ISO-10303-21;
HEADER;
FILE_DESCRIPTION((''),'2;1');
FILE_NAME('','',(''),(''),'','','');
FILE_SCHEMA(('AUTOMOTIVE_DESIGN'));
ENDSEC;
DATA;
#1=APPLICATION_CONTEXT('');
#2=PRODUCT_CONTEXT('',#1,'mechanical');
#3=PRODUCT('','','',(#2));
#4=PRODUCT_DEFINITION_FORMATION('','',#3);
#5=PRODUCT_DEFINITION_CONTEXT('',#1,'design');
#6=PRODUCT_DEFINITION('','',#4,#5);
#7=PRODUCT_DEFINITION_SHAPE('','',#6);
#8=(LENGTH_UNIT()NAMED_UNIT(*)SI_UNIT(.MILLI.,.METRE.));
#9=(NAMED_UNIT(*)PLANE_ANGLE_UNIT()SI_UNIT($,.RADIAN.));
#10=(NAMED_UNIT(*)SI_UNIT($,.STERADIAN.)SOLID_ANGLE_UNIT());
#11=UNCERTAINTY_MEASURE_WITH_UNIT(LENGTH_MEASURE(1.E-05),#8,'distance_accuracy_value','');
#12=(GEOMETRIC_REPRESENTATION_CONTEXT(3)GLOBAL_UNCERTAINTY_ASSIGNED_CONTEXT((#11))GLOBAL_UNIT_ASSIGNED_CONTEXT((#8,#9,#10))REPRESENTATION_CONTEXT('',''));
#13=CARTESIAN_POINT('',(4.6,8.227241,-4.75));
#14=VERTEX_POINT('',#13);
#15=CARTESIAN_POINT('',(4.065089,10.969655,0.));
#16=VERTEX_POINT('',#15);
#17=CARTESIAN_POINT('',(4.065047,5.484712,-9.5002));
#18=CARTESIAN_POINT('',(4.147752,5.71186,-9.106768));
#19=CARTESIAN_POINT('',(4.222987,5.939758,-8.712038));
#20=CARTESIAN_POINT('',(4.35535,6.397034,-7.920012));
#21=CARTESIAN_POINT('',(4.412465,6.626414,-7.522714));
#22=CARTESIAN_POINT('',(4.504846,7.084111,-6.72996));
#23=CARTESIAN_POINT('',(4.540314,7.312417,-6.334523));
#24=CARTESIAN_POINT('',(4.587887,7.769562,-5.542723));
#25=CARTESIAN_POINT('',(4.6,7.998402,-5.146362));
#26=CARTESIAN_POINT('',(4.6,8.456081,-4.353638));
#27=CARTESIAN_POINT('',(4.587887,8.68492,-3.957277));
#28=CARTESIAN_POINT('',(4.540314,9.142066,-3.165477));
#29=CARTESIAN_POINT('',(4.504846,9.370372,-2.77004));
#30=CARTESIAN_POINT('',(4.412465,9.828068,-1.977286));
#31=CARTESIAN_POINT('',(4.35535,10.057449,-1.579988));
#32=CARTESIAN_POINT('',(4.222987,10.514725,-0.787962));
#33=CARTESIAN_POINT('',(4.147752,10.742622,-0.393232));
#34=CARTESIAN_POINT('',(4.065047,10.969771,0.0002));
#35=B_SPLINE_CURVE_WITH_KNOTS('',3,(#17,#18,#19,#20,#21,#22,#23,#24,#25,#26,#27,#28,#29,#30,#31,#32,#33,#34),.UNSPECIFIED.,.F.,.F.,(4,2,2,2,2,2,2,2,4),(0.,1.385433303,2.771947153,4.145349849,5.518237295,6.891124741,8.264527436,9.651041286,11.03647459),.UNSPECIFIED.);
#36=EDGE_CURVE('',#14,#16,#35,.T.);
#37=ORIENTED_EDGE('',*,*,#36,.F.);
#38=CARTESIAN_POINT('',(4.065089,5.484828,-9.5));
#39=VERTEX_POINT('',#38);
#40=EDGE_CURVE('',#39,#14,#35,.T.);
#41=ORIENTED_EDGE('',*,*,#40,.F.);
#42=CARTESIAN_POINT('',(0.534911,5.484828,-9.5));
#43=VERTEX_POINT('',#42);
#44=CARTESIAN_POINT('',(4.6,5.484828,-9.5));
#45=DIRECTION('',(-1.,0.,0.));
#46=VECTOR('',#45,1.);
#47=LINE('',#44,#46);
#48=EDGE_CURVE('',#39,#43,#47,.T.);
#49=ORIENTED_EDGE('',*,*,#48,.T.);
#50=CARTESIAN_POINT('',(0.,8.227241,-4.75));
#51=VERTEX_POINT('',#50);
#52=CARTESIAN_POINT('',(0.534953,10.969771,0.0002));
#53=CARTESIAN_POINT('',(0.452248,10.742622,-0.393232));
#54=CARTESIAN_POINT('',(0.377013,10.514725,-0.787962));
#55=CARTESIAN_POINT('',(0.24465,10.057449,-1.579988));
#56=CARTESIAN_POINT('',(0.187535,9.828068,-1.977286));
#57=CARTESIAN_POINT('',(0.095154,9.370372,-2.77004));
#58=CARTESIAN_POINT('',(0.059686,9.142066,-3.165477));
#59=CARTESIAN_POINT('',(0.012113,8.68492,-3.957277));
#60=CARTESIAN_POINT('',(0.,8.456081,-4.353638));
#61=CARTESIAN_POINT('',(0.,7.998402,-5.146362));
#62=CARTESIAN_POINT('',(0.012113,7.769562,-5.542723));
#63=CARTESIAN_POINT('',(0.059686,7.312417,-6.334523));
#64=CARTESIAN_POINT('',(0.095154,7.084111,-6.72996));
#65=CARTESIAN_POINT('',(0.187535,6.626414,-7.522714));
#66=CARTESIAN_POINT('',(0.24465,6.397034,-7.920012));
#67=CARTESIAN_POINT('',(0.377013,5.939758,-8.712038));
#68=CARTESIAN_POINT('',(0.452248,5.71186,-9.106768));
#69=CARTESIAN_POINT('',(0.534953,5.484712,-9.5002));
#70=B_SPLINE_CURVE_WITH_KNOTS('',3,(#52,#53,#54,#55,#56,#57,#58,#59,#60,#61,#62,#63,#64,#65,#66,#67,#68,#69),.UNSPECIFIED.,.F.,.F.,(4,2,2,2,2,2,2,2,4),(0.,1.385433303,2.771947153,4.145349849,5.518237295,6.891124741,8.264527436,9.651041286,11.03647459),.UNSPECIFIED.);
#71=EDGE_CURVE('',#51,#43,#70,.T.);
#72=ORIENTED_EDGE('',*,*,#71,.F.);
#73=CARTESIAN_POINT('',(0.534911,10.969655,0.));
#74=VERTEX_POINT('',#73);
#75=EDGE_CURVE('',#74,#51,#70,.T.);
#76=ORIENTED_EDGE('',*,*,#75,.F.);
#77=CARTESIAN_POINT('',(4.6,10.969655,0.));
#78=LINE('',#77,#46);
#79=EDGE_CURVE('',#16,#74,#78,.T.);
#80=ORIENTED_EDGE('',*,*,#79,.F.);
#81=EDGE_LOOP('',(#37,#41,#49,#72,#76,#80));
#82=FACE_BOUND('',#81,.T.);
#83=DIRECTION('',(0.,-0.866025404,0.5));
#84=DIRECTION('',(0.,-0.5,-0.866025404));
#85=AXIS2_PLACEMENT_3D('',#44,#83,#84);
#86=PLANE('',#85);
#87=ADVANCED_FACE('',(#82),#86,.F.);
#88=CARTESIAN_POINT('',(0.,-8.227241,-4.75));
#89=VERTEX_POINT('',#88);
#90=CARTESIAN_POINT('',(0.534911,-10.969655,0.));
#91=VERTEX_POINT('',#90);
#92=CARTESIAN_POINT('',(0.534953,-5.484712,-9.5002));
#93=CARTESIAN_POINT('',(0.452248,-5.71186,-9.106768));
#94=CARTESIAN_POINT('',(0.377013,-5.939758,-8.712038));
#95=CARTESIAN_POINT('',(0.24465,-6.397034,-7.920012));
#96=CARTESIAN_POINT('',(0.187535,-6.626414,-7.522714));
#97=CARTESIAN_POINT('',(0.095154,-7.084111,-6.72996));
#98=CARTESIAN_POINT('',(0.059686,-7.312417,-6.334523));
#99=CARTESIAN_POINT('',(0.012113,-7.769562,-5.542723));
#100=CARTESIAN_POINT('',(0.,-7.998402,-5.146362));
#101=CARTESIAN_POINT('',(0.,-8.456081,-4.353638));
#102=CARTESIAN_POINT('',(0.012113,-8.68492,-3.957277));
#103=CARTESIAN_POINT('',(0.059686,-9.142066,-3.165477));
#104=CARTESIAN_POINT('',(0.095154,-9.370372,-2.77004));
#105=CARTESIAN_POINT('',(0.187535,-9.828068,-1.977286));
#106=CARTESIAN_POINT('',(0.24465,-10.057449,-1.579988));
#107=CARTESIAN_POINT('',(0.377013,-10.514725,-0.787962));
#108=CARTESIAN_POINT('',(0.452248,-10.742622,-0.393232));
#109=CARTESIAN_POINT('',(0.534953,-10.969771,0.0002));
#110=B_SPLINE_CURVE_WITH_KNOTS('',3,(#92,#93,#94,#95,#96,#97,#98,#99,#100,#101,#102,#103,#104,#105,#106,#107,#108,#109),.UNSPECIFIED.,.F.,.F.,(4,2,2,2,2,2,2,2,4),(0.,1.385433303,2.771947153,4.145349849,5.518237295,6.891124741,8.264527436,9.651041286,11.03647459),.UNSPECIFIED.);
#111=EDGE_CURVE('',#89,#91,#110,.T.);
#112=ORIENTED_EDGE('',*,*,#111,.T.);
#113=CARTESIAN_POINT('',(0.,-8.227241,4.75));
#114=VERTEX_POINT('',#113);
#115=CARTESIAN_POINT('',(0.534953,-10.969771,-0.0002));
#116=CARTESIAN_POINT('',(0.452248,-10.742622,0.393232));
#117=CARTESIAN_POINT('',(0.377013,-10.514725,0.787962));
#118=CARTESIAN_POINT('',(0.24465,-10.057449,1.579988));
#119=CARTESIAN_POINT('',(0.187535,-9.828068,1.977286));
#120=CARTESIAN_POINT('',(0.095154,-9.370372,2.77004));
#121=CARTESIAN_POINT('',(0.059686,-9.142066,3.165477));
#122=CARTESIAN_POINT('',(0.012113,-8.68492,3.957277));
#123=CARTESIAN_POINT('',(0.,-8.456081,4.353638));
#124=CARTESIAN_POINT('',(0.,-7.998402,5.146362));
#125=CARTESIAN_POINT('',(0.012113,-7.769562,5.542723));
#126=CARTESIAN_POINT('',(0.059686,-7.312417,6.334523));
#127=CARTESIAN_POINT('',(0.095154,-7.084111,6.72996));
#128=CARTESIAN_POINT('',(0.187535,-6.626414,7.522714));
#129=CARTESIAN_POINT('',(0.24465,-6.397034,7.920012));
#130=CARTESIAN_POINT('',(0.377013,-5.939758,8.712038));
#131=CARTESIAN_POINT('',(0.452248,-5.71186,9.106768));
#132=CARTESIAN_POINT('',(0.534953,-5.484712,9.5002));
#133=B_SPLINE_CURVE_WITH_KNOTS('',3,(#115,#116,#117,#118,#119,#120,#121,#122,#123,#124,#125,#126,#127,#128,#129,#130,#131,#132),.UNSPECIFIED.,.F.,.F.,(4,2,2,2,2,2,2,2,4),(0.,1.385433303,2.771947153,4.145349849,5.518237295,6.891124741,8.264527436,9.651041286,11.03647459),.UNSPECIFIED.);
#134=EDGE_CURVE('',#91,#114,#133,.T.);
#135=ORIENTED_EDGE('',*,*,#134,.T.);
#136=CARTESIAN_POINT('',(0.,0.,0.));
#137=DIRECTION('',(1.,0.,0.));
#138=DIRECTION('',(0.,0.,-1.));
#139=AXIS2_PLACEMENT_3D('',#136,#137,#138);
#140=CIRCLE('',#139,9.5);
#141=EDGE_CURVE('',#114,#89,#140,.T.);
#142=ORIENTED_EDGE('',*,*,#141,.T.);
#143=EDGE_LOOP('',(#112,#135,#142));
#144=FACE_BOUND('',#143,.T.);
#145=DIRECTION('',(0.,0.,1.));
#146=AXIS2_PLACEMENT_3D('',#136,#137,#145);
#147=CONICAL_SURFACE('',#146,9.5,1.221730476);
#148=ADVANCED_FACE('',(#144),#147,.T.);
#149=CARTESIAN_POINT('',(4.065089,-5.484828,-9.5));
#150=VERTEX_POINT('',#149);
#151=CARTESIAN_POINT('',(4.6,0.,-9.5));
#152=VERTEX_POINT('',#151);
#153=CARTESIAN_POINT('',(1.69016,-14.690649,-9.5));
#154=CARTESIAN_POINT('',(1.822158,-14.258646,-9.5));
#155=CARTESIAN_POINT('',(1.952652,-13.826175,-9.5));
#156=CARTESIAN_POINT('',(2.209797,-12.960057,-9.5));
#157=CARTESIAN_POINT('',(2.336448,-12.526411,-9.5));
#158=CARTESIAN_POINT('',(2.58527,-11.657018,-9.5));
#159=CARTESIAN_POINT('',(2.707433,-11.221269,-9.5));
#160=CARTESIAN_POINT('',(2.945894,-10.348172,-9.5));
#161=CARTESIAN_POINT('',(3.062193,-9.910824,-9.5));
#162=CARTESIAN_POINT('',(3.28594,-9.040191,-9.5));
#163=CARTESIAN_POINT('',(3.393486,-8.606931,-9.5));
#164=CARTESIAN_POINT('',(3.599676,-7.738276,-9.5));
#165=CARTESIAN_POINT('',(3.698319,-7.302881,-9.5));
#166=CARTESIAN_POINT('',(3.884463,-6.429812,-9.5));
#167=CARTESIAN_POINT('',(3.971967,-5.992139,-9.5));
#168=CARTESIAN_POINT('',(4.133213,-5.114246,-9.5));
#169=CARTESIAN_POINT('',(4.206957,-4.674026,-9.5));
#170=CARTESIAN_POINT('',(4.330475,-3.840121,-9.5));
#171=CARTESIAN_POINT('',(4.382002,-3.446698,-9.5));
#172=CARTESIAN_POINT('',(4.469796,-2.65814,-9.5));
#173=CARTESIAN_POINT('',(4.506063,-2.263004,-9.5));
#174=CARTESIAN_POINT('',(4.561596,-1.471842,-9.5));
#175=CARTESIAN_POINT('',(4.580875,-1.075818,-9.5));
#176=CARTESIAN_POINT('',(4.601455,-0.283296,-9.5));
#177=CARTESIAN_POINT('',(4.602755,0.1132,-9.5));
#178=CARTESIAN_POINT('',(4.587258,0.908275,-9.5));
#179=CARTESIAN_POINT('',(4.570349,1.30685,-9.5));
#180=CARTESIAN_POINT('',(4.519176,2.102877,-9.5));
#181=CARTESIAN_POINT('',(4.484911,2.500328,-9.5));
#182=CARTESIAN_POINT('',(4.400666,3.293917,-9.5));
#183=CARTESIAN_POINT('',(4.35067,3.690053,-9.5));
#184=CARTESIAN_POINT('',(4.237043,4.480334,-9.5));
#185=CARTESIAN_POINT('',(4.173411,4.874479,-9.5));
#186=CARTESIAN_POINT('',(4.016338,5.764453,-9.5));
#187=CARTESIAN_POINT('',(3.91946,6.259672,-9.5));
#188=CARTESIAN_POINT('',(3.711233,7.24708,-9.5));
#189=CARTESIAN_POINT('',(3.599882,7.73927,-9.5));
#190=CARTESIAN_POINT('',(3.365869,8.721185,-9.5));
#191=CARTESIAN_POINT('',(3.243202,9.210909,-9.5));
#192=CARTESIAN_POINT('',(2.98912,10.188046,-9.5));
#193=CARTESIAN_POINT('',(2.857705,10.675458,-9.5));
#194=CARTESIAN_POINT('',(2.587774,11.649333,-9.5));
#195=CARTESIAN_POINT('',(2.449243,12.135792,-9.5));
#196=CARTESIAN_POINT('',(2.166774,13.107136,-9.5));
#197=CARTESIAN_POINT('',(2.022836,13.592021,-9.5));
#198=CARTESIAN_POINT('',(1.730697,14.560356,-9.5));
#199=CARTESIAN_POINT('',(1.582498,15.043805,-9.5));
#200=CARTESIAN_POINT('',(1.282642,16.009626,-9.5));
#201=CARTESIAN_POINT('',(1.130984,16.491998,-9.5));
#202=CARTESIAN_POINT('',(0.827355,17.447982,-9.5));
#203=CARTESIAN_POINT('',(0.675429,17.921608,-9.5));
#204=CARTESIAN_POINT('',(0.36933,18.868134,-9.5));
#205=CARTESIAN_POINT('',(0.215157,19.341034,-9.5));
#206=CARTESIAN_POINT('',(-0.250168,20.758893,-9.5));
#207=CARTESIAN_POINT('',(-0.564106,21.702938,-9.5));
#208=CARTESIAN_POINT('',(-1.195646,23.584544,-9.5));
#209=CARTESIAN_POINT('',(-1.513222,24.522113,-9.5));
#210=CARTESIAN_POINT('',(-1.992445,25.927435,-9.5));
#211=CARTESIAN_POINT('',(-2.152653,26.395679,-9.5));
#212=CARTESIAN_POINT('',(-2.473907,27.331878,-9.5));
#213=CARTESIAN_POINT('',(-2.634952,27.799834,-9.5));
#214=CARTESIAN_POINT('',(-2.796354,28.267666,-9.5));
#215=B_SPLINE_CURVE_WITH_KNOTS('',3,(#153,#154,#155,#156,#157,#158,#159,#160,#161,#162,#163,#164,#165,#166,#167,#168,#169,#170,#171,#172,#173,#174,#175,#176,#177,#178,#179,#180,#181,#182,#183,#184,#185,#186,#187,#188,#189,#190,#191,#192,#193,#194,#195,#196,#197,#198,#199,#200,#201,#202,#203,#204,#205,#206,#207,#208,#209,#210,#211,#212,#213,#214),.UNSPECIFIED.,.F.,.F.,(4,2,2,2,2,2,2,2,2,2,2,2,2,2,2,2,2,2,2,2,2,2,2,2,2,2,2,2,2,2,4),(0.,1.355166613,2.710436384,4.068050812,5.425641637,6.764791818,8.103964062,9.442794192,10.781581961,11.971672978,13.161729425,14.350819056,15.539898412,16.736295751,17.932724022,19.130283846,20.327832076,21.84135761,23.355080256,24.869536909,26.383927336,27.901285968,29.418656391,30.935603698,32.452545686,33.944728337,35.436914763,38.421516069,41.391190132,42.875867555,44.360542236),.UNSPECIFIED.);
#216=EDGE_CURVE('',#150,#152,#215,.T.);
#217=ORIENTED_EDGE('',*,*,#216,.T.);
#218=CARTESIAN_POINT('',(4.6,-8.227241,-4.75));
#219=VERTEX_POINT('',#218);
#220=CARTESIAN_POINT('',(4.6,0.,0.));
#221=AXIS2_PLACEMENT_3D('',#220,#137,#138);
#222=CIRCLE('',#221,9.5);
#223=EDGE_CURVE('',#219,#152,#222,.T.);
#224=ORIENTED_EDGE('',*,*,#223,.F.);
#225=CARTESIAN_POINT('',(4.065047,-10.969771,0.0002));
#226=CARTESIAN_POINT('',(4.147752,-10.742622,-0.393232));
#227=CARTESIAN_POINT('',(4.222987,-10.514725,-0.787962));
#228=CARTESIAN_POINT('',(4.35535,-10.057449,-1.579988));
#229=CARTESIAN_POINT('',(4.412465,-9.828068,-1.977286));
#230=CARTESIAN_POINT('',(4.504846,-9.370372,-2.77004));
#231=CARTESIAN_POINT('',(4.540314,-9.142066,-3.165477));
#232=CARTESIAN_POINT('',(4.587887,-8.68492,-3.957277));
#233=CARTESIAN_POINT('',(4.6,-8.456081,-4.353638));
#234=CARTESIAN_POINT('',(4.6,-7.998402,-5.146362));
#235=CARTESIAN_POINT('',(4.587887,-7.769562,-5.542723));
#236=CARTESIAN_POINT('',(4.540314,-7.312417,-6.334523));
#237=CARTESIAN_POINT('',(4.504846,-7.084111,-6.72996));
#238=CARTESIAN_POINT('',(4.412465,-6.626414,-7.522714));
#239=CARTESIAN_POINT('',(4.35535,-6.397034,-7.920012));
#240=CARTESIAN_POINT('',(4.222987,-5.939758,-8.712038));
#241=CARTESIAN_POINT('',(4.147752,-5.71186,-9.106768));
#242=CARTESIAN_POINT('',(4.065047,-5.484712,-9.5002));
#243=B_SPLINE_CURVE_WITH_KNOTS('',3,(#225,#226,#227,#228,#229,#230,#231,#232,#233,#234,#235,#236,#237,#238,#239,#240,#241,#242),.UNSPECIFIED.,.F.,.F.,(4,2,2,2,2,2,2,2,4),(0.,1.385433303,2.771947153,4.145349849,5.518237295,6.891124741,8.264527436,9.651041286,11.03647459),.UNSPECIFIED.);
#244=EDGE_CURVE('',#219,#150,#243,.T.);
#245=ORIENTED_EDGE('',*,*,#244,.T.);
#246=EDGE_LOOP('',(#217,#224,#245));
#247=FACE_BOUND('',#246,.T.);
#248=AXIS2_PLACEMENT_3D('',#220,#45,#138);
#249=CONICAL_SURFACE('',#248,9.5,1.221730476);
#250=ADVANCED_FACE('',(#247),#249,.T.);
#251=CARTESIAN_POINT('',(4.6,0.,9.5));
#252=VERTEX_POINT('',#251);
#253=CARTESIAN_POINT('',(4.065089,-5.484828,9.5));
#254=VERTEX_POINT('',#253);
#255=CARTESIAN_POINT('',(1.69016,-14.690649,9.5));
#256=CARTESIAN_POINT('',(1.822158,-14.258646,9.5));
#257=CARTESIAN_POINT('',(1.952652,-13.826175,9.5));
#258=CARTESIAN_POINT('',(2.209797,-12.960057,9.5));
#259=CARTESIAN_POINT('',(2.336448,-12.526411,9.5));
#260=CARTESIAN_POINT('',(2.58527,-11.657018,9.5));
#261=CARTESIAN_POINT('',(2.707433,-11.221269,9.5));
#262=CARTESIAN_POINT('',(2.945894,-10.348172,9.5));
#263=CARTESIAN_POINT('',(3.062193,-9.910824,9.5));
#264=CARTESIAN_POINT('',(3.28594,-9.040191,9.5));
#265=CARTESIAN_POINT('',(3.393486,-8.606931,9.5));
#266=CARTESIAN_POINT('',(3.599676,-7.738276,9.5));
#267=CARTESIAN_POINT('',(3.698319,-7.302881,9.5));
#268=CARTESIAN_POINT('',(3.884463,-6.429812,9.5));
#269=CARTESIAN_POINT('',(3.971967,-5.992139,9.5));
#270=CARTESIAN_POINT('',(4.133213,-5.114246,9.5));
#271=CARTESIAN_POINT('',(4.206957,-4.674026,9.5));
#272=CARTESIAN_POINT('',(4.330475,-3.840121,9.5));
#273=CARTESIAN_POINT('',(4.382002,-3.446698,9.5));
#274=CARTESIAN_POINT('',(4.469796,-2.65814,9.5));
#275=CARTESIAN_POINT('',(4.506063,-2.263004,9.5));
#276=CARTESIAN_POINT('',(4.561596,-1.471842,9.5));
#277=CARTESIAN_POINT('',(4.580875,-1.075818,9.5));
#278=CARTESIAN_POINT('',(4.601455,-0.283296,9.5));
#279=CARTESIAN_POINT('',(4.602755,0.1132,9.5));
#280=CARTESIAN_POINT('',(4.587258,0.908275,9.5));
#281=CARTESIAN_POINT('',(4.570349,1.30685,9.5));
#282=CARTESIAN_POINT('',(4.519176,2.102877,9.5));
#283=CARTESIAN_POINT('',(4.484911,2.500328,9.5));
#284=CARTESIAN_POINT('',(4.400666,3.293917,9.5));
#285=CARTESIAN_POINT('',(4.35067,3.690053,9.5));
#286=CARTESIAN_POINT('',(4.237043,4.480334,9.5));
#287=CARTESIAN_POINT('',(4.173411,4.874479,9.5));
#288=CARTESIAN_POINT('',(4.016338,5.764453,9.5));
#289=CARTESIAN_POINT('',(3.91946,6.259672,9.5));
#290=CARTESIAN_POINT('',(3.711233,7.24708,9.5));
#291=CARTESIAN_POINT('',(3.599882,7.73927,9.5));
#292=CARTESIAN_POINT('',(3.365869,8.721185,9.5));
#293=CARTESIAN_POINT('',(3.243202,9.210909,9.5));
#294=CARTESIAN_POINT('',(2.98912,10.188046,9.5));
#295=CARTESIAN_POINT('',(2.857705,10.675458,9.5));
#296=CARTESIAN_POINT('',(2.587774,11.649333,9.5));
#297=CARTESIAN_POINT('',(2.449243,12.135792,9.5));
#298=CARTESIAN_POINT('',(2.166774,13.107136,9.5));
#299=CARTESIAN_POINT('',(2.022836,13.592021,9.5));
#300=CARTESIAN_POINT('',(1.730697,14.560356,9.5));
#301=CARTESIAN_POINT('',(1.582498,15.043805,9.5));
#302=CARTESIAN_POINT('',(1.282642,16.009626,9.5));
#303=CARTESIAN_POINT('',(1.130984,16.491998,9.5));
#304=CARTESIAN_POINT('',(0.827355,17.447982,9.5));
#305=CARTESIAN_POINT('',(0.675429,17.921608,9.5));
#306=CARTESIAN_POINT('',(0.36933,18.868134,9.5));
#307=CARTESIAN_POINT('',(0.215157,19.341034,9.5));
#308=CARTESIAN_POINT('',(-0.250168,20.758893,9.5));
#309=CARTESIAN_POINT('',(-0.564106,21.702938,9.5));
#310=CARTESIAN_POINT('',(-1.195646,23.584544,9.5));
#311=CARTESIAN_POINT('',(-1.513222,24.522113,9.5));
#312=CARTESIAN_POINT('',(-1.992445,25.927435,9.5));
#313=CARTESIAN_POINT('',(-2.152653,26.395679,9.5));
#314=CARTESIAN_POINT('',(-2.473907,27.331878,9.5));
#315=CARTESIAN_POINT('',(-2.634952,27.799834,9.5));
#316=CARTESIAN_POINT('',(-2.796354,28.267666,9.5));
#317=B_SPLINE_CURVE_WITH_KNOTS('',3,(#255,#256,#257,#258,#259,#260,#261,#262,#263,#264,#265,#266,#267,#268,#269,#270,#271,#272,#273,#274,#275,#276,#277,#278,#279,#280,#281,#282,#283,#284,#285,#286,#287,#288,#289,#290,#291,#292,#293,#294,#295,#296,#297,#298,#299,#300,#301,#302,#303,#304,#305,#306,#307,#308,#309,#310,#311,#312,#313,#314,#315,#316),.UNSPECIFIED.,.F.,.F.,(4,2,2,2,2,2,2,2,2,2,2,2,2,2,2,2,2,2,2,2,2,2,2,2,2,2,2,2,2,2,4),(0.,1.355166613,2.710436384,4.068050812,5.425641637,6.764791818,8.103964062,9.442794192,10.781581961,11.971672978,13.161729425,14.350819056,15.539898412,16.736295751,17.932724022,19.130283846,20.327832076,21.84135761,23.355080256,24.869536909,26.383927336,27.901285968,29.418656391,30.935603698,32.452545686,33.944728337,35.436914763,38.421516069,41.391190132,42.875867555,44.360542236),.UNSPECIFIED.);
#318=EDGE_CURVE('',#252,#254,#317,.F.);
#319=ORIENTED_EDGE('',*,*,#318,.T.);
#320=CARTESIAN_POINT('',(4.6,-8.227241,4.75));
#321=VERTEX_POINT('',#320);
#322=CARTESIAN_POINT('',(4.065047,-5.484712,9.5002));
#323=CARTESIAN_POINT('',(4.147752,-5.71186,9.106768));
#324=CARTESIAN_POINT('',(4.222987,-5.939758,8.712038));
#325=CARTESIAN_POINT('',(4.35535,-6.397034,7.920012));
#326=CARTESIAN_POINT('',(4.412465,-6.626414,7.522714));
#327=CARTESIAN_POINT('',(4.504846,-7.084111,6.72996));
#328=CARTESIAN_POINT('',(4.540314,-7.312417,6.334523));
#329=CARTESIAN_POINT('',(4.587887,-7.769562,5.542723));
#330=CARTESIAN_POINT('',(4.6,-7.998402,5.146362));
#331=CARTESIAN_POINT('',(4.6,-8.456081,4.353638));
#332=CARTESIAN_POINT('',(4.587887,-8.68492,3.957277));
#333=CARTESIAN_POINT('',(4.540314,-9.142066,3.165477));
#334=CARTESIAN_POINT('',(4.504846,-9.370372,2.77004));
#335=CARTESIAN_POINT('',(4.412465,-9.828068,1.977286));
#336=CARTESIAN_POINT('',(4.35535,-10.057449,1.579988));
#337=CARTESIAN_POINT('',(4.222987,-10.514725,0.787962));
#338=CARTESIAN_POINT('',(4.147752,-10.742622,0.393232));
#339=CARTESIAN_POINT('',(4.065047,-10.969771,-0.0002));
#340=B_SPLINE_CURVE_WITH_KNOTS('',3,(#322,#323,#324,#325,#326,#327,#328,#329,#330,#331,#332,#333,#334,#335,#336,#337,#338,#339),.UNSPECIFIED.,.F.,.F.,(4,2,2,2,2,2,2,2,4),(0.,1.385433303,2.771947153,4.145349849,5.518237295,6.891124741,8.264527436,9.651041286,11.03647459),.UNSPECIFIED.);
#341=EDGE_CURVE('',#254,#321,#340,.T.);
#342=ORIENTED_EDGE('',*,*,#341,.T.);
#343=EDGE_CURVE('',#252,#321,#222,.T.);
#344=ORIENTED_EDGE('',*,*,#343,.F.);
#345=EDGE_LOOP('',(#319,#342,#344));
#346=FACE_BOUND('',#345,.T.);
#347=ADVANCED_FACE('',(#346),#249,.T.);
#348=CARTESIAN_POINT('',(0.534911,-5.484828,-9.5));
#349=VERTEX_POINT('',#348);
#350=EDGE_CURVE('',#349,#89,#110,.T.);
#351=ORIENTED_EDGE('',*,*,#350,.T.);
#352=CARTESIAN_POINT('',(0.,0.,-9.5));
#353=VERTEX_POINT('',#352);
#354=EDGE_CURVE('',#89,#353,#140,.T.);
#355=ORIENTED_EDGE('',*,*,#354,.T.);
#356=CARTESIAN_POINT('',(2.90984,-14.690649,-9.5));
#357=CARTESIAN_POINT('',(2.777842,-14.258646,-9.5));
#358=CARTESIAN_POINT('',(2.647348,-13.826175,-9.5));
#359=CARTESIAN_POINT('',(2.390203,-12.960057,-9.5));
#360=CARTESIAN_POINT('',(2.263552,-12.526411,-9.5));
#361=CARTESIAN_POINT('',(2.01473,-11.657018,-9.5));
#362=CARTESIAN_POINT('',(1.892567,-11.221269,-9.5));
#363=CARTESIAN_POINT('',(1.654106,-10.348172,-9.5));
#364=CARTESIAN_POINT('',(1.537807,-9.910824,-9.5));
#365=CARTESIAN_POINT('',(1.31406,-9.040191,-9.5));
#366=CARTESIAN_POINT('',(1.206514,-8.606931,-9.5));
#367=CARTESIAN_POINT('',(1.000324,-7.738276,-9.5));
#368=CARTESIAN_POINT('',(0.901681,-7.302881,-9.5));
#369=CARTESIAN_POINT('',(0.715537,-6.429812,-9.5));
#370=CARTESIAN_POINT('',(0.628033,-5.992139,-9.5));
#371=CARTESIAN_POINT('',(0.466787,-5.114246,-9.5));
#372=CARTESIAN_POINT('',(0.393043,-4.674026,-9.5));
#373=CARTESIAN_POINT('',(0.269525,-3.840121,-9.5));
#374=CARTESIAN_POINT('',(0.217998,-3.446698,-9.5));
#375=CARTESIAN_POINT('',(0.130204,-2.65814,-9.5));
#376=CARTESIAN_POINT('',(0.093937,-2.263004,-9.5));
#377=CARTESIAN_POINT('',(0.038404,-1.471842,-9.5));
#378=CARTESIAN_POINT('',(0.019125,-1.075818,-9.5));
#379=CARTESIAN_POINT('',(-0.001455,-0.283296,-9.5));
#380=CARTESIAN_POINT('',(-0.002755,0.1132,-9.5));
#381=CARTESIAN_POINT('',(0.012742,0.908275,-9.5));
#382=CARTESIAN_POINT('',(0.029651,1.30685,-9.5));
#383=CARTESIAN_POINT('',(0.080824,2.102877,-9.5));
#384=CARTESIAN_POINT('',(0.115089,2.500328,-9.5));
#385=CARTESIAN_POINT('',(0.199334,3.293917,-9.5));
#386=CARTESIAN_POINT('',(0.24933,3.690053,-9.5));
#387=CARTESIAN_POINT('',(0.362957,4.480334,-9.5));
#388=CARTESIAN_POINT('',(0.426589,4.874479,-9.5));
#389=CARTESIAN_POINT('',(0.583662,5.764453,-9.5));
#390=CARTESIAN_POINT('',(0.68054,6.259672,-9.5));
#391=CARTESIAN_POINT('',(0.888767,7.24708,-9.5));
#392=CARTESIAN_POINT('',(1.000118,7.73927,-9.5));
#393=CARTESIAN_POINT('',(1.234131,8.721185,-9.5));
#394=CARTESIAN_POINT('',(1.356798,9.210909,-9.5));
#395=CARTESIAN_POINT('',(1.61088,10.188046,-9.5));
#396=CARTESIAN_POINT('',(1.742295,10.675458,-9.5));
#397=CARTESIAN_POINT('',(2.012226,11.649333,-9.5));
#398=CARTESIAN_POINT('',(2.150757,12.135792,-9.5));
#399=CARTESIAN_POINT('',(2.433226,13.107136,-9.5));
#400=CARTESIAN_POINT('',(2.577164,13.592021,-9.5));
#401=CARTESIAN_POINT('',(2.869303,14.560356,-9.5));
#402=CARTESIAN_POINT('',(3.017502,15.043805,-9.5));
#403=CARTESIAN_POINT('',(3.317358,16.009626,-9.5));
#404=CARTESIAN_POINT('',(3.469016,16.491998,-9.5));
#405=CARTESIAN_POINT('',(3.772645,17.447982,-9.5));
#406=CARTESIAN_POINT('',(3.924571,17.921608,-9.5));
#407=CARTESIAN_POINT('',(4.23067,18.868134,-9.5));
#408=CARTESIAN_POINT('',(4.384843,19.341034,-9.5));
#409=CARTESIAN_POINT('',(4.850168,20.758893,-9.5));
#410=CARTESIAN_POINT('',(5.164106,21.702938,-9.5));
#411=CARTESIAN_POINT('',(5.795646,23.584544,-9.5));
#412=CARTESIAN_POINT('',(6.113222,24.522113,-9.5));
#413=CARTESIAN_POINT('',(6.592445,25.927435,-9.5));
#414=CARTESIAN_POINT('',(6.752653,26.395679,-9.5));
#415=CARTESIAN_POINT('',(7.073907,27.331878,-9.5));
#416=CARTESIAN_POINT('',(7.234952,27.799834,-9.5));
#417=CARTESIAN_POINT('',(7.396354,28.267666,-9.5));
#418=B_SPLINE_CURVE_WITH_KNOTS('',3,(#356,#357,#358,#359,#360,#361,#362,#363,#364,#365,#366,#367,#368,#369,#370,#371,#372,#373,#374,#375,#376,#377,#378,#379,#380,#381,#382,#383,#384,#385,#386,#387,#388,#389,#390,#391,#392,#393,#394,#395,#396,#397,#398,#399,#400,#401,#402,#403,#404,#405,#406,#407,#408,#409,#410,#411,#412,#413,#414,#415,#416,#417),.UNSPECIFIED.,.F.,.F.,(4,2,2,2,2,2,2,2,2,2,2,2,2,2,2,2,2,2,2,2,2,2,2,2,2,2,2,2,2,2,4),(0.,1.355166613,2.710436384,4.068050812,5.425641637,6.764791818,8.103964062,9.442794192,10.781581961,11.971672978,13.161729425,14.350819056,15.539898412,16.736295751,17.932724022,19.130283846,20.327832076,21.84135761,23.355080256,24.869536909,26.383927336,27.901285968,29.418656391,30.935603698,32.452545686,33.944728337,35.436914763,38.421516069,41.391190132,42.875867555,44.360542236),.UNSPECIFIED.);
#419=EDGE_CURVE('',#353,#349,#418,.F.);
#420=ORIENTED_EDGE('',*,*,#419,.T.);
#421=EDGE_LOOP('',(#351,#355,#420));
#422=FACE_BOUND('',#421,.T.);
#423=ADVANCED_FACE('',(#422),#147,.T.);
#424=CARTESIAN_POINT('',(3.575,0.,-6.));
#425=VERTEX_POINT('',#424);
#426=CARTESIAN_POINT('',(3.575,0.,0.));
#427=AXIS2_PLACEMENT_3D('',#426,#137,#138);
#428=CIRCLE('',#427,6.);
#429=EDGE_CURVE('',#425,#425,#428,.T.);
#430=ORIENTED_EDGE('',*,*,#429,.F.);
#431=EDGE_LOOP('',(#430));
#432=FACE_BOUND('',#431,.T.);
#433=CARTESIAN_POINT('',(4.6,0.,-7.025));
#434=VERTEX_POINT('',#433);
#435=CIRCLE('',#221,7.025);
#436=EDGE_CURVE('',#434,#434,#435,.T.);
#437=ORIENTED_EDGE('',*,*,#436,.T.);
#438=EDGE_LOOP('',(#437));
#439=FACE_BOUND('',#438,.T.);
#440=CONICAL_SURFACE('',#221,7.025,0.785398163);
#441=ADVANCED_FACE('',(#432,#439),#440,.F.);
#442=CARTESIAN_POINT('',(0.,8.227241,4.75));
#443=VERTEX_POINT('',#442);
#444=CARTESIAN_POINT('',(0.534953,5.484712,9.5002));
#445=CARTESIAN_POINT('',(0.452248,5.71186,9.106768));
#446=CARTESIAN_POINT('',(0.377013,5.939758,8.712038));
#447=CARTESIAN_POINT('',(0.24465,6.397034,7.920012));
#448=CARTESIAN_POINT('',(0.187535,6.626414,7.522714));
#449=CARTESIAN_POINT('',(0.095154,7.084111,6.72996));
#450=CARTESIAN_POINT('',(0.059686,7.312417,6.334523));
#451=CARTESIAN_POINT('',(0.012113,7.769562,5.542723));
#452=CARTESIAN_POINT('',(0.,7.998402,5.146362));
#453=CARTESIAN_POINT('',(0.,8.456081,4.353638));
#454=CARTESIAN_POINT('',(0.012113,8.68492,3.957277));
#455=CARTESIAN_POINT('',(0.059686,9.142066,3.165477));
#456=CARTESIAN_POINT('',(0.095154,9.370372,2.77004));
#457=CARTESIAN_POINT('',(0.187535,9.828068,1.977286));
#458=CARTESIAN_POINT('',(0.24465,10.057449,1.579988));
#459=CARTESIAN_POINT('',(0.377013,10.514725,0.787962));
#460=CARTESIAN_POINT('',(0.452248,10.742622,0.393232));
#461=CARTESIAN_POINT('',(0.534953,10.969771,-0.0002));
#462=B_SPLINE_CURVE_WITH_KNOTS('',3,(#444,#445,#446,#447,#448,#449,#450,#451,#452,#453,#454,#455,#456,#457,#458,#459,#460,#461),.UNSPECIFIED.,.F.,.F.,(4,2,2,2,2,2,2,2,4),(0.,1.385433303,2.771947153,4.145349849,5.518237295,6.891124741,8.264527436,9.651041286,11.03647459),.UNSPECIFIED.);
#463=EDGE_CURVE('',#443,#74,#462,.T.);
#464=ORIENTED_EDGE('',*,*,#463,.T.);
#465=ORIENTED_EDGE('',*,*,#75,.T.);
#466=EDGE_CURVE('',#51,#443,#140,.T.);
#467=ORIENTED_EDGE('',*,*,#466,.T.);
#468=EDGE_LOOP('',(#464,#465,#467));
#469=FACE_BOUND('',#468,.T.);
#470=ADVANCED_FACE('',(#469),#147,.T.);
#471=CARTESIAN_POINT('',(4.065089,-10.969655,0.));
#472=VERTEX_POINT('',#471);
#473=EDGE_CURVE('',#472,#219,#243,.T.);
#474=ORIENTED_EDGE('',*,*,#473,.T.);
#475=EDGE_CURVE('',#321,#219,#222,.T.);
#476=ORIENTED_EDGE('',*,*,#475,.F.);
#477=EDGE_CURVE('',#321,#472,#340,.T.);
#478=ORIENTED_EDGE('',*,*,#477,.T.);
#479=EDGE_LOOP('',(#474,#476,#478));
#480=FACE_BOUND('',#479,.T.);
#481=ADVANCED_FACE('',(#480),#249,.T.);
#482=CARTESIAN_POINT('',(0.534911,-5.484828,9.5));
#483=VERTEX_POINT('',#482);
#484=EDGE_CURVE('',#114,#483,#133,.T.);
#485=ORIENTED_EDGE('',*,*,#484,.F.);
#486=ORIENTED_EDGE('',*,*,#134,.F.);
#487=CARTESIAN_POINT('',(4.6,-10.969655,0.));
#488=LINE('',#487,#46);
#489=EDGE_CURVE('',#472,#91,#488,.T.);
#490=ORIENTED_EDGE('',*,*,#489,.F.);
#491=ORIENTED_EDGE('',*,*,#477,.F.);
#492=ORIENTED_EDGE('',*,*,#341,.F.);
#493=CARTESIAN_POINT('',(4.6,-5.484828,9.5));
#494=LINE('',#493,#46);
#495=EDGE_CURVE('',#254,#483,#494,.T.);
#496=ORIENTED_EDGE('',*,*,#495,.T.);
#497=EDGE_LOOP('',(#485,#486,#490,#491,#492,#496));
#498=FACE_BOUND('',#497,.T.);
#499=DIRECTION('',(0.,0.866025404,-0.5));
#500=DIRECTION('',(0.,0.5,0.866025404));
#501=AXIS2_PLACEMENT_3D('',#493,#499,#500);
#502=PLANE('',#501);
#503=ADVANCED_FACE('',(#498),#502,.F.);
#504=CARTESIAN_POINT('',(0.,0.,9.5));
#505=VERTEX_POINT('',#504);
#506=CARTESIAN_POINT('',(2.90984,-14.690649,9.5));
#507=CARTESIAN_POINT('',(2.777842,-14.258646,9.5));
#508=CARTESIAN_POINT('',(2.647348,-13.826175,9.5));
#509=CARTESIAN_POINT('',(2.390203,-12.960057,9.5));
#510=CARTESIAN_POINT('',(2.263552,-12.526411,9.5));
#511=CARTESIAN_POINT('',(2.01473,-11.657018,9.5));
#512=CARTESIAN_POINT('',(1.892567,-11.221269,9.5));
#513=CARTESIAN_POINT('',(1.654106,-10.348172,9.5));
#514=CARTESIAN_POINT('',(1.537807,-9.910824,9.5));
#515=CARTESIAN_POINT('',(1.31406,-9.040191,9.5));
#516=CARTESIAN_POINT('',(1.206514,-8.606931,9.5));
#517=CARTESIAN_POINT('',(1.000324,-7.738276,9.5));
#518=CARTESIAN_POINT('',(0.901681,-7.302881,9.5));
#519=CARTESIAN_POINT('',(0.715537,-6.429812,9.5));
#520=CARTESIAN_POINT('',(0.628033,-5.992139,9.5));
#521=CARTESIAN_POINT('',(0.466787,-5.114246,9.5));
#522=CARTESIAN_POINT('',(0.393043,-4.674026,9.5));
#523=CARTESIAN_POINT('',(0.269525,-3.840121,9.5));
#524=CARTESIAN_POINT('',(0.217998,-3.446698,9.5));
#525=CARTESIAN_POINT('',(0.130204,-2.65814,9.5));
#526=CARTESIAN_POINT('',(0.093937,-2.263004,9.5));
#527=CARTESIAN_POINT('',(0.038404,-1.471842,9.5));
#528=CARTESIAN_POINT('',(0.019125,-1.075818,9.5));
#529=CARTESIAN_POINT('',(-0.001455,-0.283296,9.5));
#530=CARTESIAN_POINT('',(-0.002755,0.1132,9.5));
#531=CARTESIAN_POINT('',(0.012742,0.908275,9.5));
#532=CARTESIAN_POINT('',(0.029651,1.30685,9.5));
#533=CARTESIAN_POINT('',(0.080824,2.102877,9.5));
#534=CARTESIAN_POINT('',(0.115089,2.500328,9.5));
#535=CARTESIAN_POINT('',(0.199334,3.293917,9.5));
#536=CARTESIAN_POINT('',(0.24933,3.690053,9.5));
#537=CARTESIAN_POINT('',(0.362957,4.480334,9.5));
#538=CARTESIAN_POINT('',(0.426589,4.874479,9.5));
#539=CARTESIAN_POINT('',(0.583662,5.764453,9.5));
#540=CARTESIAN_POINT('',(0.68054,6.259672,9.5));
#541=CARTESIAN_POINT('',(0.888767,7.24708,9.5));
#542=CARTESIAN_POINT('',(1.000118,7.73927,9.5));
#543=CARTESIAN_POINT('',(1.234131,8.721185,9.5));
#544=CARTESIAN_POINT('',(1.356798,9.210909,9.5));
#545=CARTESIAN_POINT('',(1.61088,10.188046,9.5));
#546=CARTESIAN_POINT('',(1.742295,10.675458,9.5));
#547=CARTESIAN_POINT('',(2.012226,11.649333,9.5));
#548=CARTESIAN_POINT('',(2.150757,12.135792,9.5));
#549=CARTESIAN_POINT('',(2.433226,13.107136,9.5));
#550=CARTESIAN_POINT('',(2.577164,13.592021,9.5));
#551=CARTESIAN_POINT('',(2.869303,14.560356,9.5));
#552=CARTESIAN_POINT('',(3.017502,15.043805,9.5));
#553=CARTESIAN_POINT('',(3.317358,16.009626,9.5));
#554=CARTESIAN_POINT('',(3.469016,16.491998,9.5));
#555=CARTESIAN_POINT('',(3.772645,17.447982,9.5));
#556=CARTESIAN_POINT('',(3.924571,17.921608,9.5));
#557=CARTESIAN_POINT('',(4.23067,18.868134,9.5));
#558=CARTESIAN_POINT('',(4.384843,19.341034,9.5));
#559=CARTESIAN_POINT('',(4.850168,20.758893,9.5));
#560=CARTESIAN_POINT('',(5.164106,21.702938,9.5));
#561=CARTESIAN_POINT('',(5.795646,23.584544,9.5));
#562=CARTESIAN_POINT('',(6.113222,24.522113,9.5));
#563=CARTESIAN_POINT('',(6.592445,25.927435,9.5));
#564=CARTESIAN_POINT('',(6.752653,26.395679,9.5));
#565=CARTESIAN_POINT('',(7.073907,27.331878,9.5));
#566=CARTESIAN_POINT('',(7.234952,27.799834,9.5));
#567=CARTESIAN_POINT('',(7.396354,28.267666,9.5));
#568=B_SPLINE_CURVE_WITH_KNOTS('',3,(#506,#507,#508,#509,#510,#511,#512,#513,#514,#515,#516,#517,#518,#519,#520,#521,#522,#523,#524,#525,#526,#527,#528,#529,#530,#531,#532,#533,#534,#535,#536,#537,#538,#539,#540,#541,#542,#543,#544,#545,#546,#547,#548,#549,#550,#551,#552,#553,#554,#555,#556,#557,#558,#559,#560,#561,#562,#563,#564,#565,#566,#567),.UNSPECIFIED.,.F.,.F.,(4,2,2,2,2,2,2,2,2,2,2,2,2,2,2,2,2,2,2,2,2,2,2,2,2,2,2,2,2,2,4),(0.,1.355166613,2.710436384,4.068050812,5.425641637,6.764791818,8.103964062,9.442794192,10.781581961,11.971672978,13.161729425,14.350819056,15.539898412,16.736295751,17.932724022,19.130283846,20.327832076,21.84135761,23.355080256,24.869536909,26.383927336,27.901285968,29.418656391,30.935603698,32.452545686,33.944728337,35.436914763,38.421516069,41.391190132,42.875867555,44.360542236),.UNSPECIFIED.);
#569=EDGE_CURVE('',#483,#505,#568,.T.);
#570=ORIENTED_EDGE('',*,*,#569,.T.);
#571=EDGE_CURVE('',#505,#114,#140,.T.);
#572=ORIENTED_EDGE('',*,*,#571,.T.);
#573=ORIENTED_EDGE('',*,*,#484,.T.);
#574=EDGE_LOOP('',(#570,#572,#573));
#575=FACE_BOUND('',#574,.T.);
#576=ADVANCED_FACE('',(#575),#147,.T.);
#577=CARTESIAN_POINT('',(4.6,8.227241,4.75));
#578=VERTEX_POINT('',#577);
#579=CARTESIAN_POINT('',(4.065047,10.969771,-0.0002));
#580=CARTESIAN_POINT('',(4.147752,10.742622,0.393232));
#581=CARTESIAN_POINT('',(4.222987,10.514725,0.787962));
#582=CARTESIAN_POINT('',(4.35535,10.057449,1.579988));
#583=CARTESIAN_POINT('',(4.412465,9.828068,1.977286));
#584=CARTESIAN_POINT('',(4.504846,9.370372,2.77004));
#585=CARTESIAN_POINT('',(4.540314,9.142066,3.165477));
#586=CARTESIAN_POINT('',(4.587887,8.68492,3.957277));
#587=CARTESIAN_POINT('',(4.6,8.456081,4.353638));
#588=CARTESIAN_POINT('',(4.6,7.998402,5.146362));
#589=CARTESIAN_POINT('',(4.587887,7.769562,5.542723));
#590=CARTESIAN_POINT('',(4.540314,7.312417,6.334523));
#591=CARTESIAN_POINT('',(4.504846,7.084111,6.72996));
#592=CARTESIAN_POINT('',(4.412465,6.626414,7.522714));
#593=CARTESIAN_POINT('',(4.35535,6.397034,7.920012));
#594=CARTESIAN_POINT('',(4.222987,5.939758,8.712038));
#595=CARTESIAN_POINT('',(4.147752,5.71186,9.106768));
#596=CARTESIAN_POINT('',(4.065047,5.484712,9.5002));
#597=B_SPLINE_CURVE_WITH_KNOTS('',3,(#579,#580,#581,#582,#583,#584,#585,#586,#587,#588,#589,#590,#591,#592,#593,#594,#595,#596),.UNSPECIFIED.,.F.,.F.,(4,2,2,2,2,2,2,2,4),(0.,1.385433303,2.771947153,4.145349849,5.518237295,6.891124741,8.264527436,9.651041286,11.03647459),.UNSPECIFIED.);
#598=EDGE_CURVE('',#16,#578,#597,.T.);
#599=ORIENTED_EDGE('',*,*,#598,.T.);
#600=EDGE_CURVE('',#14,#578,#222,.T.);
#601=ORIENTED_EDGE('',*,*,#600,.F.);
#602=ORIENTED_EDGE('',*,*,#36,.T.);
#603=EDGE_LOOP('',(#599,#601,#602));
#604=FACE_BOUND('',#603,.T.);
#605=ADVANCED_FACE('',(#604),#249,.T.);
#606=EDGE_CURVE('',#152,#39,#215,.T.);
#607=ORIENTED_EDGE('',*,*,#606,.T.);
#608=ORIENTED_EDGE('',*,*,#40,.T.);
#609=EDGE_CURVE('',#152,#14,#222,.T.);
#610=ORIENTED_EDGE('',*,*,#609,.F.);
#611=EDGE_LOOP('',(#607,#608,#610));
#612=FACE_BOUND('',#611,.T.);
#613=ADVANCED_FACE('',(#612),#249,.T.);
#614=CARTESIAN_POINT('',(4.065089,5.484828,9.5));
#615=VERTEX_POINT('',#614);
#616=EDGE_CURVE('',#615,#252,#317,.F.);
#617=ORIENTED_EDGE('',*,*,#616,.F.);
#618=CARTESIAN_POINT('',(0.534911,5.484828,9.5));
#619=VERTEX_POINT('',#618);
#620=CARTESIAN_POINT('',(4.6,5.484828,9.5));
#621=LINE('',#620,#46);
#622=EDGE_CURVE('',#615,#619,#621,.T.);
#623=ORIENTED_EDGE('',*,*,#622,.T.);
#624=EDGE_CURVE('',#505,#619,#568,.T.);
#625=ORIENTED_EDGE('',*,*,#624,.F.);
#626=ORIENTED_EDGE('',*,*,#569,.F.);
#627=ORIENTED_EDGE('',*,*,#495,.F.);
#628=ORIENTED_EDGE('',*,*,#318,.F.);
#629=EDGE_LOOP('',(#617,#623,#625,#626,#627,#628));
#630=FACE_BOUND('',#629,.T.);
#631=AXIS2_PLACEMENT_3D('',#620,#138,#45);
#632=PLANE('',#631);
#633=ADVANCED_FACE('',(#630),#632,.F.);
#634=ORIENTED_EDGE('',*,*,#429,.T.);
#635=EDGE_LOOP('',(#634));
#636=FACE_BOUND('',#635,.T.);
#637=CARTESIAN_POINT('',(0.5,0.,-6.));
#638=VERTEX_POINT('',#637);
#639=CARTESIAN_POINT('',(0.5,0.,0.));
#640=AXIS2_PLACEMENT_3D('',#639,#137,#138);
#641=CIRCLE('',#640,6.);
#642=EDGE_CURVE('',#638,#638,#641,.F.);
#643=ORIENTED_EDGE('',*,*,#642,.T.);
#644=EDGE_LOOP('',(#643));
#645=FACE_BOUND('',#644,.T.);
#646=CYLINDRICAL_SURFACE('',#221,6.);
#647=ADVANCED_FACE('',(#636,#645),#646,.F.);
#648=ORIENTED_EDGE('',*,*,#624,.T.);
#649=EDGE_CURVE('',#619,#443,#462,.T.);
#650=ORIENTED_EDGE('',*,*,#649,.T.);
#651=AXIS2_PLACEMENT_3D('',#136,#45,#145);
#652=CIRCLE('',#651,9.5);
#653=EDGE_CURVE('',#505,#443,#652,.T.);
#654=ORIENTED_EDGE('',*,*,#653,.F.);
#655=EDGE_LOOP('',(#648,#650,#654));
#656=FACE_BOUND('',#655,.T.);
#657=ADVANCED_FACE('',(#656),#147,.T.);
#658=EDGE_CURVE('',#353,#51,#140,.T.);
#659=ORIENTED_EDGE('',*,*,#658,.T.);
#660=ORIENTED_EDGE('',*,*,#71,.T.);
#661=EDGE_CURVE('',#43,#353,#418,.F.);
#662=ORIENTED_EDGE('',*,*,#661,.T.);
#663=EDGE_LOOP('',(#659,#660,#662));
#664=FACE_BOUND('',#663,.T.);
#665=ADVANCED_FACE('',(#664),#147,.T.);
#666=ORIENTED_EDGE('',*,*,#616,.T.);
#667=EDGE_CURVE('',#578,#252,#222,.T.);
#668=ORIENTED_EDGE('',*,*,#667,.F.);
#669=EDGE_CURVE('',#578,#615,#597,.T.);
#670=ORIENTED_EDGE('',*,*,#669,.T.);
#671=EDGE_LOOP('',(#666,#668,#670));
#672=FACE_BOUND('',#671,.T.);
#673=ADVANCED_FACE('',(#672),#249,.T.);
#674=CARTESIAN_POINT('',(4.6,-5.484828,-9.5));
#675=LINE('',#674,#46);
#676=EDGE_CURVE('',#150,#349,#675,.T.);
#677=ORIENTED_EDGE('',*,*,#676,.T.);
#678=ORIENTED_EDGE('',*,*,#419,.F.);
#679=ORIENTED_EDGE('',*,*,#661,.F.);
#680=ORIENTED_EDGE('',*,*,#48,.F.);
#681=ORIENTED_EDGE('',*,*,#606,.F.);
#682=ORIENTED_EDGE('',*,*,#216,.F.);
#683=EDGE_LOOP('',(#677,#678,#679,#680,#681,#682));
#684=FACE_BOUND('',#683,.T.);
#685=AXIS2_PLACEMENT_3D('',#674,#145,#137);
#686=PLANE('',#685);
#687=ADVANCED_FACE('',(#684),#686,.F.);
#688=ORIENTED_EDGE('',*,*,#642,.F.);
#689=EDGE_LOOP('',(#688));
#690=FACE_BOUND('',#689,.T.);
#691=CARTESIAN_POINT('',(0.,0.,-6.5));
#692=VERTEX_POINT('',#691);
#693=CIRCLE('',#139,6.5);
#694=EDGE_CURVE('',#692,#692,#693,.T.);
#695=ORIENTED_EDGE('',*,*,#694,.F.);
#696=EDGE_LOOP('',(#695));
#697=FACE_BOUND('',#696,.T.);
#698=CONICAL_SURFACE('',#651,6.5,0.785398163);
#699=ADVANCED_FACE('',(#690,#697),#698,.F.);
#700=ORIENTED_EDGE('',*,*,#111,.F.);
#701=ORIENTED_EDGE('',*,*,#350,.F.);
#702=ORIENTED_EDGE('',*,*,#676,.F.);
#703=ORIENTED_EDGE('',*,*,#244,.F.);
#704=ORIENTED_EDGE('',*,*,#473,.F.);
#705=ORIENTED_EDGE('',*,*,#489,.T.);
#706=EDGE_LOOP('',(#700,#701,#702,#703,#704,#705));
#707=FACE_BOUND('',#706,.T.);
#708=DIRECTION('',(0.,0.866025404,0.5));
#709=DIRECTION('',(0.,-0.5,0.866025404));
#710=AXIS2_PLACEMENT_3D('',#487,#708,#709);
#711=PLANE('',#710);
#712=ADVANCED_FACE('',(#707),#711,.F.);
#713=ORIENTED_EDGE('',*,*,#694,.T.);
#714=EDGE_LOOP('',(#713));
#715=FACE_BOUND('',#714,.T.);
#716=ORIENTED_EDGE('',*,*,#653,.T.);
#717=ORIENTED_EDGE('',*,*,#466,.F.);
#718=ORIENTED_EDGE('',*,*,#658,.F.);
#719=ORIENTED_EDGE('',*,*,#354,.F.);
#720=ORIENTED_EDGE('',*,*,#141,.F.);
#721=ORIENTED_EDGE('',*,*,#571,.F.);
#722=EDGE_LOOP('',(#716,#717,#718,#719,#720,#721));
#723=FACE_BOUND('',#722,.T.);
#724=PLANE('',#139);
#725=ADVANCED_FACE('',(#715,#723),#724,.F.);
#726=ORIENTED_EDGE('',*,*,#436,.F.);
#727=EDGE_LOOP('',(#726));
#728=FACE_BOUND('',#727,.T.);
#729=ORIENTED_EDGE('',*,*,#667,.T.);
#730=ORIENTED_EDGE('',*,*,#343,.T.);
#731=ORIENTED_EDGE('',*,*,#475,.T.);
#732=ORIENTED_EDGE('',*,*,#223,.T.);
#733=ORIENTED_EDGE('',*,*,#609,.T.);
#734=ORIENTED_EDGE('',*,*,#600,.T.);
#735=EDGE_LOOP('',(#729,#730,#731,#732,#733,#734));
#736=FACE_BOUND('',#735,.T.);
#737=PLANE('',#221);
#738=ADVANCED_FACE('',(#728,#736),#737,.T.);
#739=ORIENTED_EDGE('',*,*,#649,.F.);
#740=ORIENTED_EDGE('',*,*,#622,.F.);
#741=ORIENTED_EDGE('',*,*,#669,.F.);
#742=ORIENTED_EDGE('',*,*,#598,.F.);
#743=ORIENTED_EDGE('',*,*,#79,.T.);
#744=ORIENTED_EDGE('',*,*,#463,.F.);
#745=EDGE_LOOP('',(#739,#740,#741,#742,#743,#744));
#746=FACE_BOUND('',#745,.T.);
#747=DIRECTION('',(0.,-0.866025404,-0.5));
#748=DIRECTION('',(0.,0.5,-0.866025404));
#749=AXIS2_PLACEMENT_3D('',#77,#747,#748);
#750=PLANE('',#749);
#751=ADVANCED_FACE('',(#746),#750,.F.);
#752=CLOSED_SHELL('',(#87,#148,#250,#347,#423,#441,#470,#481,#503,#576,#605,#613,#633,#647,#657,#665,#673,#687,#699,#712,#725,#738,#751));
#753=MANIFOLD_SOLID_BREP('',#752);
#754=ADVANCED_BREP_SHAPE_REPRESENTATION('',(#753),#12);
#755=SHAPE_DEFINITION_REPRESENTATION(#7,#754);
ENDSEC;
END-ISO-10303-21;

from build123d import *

# Parameters (mm, degrees)
RESSALTO_EXTRUS_O1_DEPTH = 4.6
CHANFRO1_SIZE            = 0.5
ESBO_O8_OUTSIDE_W        = 98.312
ESBO_O8_OUTSIDE_H        = 101.252
ESBO_O8_OUTSIDE_R        = 9.5
CORTE_EXTRUS_O1_DEPTH    = 13
CORTE_EXTRUS_O1_DRAFT    = -70
ESBO_O9_OUTSIDE_W        = 98.312
ESBO_O9_OUTSIDE_H        = 101.252
ESBO_O9_OUTSIDE_R        = 9.5
CORTE_EXTRUS_O2_DEPTH    = 13
CORTE_EXTRUS_O2_DRAFT    = -70


with BuildPart() as part:
    # Esboço1 → Ressalto-extrusão1 (new body)
    with BuildSketch(Plane(origin=(0, 0, 0), x_dir=(0, 0, -1), z_dir=(1, 0, 0))):
        Polygon((9.5, 5.484827557), (0, 10.969655115), (-9.5, 5.484827557), (-9.5, -5.484827557), (0, -10.969655115), (9.5, -5.484827557), align=None)
    extrude(amount=RESSALTO_EXTRUS_O1_DEPTH)

    # Esboço6 → Furo roscado de M141 (revolve, cut)
    with BuildSketch(Plane(origin=(4.6, 0, 0), x_dir=(0, 0, -1), z_dir=(0, 1, 0))):
        Polygon((0, 0), (0, 4.6), (6, 4.6), (6, 1.025), (7.025, 0), align=None)
    revolve(axis=Axis((10.95, 0, 0), (-1, 0, 0)), mode=Mode.SUBTRACT)

    # Chanfro1
    chanfro1_edges = [part.edges().sort_by_distance(p)[0] for p in [
        (0, 0, 6),
    ]]
    chamfer(chanfro1_edges, length=CHANFRO1_SIZE)


with BuildPart() as corte_extrus_o1_tool:
    # Esboço8 outside → Corte-extrusão1 (with draft: the straight prism first)
    with BuildSketch(Plane.ZY):
        Rectangle(ESBO_O8_OUTSIDE_W, ESBO_O8_OUTSIDE_H)
        Circle(ESBO_O8_OUTSIDE_R, mode=Mode.SUBTRACT)
    extrude(amount=-CORTE_EXTRUS_O1_DEPTH)
    # Corte-extrusão1: the draft: its side faces are tilted about the plane it starts from
    corte_extrus_o1_sides = [corte_extrus_o1_tool.faces().sort_by_distance(p)[0] for p in [
        (6.5, -50.626, 0),
        (6.5, 0, 49.156),
        (6.5, 50.626, 0),
        (6.5, 0, -49.156),
        (6.5, 0, -9.5),
    ]]
    draft(corte_extrus_o1_sides, Plane.ZY, CORTE_EXTRUS_O1_DRAFT)


with BuildPart() as part_1:
    add(part.part)

    # Corte-extrusão1: cut by corte_extrus_o1_tool
    add(corte_extrus_o1_tool.part, mode=Mode.SUBTRACT)


with BuildPart() as corte_extrus_o2_tool:
    # Esboço9 outside → Corte-extrusão2 (with draft: the straight prism first)
    with BuildSketch(Plane(origin=(4.6, 0, 0), x_dir=(0, 0, -1), z_dir=(1, 0, 0))):
        Rectangle(ESBO_O9_OUTSIDE_W, ESBO_O9_OUTSIDE_H)
        Circle(ESBO_O9_OUTSIDE_R, mode=Mode.SUBTRACT)
    extrude(amount=-CORTE_EXTRUS_O2_DEPTH)
    # Corte-extrusão2: the draft: its side faces are tilted about the plane it starts from
    corte_extrus_o2_sides = [corte_extrus_o2_tool.faces().sort_by_distance(p)[0] for p in [
        (-1.9, -50.626, 0),
        (-1.9, 0, -49.156),
        (-1.9, 50.626, 0),
        (-1.9, 0, 49.156),
        (-1.9, 0, 9.5),
    ]]
    draft(corte_extrus_o2_sides, Plane(origin=(4.6, 0, 0), x_dir=(0, 0, -1), z_dir=(1, 0, 0)), CORTE_EXTRUS_O2_DRAFT)


with BuildPart() as part_2:
    add(part_1.part)

    # Corte-extrusão2: cut by corte_extrus_o2_tool
    add(corte_extrus_o2_tool.part, mode=Mode.SUBTRACT)


solid = part_2.part
